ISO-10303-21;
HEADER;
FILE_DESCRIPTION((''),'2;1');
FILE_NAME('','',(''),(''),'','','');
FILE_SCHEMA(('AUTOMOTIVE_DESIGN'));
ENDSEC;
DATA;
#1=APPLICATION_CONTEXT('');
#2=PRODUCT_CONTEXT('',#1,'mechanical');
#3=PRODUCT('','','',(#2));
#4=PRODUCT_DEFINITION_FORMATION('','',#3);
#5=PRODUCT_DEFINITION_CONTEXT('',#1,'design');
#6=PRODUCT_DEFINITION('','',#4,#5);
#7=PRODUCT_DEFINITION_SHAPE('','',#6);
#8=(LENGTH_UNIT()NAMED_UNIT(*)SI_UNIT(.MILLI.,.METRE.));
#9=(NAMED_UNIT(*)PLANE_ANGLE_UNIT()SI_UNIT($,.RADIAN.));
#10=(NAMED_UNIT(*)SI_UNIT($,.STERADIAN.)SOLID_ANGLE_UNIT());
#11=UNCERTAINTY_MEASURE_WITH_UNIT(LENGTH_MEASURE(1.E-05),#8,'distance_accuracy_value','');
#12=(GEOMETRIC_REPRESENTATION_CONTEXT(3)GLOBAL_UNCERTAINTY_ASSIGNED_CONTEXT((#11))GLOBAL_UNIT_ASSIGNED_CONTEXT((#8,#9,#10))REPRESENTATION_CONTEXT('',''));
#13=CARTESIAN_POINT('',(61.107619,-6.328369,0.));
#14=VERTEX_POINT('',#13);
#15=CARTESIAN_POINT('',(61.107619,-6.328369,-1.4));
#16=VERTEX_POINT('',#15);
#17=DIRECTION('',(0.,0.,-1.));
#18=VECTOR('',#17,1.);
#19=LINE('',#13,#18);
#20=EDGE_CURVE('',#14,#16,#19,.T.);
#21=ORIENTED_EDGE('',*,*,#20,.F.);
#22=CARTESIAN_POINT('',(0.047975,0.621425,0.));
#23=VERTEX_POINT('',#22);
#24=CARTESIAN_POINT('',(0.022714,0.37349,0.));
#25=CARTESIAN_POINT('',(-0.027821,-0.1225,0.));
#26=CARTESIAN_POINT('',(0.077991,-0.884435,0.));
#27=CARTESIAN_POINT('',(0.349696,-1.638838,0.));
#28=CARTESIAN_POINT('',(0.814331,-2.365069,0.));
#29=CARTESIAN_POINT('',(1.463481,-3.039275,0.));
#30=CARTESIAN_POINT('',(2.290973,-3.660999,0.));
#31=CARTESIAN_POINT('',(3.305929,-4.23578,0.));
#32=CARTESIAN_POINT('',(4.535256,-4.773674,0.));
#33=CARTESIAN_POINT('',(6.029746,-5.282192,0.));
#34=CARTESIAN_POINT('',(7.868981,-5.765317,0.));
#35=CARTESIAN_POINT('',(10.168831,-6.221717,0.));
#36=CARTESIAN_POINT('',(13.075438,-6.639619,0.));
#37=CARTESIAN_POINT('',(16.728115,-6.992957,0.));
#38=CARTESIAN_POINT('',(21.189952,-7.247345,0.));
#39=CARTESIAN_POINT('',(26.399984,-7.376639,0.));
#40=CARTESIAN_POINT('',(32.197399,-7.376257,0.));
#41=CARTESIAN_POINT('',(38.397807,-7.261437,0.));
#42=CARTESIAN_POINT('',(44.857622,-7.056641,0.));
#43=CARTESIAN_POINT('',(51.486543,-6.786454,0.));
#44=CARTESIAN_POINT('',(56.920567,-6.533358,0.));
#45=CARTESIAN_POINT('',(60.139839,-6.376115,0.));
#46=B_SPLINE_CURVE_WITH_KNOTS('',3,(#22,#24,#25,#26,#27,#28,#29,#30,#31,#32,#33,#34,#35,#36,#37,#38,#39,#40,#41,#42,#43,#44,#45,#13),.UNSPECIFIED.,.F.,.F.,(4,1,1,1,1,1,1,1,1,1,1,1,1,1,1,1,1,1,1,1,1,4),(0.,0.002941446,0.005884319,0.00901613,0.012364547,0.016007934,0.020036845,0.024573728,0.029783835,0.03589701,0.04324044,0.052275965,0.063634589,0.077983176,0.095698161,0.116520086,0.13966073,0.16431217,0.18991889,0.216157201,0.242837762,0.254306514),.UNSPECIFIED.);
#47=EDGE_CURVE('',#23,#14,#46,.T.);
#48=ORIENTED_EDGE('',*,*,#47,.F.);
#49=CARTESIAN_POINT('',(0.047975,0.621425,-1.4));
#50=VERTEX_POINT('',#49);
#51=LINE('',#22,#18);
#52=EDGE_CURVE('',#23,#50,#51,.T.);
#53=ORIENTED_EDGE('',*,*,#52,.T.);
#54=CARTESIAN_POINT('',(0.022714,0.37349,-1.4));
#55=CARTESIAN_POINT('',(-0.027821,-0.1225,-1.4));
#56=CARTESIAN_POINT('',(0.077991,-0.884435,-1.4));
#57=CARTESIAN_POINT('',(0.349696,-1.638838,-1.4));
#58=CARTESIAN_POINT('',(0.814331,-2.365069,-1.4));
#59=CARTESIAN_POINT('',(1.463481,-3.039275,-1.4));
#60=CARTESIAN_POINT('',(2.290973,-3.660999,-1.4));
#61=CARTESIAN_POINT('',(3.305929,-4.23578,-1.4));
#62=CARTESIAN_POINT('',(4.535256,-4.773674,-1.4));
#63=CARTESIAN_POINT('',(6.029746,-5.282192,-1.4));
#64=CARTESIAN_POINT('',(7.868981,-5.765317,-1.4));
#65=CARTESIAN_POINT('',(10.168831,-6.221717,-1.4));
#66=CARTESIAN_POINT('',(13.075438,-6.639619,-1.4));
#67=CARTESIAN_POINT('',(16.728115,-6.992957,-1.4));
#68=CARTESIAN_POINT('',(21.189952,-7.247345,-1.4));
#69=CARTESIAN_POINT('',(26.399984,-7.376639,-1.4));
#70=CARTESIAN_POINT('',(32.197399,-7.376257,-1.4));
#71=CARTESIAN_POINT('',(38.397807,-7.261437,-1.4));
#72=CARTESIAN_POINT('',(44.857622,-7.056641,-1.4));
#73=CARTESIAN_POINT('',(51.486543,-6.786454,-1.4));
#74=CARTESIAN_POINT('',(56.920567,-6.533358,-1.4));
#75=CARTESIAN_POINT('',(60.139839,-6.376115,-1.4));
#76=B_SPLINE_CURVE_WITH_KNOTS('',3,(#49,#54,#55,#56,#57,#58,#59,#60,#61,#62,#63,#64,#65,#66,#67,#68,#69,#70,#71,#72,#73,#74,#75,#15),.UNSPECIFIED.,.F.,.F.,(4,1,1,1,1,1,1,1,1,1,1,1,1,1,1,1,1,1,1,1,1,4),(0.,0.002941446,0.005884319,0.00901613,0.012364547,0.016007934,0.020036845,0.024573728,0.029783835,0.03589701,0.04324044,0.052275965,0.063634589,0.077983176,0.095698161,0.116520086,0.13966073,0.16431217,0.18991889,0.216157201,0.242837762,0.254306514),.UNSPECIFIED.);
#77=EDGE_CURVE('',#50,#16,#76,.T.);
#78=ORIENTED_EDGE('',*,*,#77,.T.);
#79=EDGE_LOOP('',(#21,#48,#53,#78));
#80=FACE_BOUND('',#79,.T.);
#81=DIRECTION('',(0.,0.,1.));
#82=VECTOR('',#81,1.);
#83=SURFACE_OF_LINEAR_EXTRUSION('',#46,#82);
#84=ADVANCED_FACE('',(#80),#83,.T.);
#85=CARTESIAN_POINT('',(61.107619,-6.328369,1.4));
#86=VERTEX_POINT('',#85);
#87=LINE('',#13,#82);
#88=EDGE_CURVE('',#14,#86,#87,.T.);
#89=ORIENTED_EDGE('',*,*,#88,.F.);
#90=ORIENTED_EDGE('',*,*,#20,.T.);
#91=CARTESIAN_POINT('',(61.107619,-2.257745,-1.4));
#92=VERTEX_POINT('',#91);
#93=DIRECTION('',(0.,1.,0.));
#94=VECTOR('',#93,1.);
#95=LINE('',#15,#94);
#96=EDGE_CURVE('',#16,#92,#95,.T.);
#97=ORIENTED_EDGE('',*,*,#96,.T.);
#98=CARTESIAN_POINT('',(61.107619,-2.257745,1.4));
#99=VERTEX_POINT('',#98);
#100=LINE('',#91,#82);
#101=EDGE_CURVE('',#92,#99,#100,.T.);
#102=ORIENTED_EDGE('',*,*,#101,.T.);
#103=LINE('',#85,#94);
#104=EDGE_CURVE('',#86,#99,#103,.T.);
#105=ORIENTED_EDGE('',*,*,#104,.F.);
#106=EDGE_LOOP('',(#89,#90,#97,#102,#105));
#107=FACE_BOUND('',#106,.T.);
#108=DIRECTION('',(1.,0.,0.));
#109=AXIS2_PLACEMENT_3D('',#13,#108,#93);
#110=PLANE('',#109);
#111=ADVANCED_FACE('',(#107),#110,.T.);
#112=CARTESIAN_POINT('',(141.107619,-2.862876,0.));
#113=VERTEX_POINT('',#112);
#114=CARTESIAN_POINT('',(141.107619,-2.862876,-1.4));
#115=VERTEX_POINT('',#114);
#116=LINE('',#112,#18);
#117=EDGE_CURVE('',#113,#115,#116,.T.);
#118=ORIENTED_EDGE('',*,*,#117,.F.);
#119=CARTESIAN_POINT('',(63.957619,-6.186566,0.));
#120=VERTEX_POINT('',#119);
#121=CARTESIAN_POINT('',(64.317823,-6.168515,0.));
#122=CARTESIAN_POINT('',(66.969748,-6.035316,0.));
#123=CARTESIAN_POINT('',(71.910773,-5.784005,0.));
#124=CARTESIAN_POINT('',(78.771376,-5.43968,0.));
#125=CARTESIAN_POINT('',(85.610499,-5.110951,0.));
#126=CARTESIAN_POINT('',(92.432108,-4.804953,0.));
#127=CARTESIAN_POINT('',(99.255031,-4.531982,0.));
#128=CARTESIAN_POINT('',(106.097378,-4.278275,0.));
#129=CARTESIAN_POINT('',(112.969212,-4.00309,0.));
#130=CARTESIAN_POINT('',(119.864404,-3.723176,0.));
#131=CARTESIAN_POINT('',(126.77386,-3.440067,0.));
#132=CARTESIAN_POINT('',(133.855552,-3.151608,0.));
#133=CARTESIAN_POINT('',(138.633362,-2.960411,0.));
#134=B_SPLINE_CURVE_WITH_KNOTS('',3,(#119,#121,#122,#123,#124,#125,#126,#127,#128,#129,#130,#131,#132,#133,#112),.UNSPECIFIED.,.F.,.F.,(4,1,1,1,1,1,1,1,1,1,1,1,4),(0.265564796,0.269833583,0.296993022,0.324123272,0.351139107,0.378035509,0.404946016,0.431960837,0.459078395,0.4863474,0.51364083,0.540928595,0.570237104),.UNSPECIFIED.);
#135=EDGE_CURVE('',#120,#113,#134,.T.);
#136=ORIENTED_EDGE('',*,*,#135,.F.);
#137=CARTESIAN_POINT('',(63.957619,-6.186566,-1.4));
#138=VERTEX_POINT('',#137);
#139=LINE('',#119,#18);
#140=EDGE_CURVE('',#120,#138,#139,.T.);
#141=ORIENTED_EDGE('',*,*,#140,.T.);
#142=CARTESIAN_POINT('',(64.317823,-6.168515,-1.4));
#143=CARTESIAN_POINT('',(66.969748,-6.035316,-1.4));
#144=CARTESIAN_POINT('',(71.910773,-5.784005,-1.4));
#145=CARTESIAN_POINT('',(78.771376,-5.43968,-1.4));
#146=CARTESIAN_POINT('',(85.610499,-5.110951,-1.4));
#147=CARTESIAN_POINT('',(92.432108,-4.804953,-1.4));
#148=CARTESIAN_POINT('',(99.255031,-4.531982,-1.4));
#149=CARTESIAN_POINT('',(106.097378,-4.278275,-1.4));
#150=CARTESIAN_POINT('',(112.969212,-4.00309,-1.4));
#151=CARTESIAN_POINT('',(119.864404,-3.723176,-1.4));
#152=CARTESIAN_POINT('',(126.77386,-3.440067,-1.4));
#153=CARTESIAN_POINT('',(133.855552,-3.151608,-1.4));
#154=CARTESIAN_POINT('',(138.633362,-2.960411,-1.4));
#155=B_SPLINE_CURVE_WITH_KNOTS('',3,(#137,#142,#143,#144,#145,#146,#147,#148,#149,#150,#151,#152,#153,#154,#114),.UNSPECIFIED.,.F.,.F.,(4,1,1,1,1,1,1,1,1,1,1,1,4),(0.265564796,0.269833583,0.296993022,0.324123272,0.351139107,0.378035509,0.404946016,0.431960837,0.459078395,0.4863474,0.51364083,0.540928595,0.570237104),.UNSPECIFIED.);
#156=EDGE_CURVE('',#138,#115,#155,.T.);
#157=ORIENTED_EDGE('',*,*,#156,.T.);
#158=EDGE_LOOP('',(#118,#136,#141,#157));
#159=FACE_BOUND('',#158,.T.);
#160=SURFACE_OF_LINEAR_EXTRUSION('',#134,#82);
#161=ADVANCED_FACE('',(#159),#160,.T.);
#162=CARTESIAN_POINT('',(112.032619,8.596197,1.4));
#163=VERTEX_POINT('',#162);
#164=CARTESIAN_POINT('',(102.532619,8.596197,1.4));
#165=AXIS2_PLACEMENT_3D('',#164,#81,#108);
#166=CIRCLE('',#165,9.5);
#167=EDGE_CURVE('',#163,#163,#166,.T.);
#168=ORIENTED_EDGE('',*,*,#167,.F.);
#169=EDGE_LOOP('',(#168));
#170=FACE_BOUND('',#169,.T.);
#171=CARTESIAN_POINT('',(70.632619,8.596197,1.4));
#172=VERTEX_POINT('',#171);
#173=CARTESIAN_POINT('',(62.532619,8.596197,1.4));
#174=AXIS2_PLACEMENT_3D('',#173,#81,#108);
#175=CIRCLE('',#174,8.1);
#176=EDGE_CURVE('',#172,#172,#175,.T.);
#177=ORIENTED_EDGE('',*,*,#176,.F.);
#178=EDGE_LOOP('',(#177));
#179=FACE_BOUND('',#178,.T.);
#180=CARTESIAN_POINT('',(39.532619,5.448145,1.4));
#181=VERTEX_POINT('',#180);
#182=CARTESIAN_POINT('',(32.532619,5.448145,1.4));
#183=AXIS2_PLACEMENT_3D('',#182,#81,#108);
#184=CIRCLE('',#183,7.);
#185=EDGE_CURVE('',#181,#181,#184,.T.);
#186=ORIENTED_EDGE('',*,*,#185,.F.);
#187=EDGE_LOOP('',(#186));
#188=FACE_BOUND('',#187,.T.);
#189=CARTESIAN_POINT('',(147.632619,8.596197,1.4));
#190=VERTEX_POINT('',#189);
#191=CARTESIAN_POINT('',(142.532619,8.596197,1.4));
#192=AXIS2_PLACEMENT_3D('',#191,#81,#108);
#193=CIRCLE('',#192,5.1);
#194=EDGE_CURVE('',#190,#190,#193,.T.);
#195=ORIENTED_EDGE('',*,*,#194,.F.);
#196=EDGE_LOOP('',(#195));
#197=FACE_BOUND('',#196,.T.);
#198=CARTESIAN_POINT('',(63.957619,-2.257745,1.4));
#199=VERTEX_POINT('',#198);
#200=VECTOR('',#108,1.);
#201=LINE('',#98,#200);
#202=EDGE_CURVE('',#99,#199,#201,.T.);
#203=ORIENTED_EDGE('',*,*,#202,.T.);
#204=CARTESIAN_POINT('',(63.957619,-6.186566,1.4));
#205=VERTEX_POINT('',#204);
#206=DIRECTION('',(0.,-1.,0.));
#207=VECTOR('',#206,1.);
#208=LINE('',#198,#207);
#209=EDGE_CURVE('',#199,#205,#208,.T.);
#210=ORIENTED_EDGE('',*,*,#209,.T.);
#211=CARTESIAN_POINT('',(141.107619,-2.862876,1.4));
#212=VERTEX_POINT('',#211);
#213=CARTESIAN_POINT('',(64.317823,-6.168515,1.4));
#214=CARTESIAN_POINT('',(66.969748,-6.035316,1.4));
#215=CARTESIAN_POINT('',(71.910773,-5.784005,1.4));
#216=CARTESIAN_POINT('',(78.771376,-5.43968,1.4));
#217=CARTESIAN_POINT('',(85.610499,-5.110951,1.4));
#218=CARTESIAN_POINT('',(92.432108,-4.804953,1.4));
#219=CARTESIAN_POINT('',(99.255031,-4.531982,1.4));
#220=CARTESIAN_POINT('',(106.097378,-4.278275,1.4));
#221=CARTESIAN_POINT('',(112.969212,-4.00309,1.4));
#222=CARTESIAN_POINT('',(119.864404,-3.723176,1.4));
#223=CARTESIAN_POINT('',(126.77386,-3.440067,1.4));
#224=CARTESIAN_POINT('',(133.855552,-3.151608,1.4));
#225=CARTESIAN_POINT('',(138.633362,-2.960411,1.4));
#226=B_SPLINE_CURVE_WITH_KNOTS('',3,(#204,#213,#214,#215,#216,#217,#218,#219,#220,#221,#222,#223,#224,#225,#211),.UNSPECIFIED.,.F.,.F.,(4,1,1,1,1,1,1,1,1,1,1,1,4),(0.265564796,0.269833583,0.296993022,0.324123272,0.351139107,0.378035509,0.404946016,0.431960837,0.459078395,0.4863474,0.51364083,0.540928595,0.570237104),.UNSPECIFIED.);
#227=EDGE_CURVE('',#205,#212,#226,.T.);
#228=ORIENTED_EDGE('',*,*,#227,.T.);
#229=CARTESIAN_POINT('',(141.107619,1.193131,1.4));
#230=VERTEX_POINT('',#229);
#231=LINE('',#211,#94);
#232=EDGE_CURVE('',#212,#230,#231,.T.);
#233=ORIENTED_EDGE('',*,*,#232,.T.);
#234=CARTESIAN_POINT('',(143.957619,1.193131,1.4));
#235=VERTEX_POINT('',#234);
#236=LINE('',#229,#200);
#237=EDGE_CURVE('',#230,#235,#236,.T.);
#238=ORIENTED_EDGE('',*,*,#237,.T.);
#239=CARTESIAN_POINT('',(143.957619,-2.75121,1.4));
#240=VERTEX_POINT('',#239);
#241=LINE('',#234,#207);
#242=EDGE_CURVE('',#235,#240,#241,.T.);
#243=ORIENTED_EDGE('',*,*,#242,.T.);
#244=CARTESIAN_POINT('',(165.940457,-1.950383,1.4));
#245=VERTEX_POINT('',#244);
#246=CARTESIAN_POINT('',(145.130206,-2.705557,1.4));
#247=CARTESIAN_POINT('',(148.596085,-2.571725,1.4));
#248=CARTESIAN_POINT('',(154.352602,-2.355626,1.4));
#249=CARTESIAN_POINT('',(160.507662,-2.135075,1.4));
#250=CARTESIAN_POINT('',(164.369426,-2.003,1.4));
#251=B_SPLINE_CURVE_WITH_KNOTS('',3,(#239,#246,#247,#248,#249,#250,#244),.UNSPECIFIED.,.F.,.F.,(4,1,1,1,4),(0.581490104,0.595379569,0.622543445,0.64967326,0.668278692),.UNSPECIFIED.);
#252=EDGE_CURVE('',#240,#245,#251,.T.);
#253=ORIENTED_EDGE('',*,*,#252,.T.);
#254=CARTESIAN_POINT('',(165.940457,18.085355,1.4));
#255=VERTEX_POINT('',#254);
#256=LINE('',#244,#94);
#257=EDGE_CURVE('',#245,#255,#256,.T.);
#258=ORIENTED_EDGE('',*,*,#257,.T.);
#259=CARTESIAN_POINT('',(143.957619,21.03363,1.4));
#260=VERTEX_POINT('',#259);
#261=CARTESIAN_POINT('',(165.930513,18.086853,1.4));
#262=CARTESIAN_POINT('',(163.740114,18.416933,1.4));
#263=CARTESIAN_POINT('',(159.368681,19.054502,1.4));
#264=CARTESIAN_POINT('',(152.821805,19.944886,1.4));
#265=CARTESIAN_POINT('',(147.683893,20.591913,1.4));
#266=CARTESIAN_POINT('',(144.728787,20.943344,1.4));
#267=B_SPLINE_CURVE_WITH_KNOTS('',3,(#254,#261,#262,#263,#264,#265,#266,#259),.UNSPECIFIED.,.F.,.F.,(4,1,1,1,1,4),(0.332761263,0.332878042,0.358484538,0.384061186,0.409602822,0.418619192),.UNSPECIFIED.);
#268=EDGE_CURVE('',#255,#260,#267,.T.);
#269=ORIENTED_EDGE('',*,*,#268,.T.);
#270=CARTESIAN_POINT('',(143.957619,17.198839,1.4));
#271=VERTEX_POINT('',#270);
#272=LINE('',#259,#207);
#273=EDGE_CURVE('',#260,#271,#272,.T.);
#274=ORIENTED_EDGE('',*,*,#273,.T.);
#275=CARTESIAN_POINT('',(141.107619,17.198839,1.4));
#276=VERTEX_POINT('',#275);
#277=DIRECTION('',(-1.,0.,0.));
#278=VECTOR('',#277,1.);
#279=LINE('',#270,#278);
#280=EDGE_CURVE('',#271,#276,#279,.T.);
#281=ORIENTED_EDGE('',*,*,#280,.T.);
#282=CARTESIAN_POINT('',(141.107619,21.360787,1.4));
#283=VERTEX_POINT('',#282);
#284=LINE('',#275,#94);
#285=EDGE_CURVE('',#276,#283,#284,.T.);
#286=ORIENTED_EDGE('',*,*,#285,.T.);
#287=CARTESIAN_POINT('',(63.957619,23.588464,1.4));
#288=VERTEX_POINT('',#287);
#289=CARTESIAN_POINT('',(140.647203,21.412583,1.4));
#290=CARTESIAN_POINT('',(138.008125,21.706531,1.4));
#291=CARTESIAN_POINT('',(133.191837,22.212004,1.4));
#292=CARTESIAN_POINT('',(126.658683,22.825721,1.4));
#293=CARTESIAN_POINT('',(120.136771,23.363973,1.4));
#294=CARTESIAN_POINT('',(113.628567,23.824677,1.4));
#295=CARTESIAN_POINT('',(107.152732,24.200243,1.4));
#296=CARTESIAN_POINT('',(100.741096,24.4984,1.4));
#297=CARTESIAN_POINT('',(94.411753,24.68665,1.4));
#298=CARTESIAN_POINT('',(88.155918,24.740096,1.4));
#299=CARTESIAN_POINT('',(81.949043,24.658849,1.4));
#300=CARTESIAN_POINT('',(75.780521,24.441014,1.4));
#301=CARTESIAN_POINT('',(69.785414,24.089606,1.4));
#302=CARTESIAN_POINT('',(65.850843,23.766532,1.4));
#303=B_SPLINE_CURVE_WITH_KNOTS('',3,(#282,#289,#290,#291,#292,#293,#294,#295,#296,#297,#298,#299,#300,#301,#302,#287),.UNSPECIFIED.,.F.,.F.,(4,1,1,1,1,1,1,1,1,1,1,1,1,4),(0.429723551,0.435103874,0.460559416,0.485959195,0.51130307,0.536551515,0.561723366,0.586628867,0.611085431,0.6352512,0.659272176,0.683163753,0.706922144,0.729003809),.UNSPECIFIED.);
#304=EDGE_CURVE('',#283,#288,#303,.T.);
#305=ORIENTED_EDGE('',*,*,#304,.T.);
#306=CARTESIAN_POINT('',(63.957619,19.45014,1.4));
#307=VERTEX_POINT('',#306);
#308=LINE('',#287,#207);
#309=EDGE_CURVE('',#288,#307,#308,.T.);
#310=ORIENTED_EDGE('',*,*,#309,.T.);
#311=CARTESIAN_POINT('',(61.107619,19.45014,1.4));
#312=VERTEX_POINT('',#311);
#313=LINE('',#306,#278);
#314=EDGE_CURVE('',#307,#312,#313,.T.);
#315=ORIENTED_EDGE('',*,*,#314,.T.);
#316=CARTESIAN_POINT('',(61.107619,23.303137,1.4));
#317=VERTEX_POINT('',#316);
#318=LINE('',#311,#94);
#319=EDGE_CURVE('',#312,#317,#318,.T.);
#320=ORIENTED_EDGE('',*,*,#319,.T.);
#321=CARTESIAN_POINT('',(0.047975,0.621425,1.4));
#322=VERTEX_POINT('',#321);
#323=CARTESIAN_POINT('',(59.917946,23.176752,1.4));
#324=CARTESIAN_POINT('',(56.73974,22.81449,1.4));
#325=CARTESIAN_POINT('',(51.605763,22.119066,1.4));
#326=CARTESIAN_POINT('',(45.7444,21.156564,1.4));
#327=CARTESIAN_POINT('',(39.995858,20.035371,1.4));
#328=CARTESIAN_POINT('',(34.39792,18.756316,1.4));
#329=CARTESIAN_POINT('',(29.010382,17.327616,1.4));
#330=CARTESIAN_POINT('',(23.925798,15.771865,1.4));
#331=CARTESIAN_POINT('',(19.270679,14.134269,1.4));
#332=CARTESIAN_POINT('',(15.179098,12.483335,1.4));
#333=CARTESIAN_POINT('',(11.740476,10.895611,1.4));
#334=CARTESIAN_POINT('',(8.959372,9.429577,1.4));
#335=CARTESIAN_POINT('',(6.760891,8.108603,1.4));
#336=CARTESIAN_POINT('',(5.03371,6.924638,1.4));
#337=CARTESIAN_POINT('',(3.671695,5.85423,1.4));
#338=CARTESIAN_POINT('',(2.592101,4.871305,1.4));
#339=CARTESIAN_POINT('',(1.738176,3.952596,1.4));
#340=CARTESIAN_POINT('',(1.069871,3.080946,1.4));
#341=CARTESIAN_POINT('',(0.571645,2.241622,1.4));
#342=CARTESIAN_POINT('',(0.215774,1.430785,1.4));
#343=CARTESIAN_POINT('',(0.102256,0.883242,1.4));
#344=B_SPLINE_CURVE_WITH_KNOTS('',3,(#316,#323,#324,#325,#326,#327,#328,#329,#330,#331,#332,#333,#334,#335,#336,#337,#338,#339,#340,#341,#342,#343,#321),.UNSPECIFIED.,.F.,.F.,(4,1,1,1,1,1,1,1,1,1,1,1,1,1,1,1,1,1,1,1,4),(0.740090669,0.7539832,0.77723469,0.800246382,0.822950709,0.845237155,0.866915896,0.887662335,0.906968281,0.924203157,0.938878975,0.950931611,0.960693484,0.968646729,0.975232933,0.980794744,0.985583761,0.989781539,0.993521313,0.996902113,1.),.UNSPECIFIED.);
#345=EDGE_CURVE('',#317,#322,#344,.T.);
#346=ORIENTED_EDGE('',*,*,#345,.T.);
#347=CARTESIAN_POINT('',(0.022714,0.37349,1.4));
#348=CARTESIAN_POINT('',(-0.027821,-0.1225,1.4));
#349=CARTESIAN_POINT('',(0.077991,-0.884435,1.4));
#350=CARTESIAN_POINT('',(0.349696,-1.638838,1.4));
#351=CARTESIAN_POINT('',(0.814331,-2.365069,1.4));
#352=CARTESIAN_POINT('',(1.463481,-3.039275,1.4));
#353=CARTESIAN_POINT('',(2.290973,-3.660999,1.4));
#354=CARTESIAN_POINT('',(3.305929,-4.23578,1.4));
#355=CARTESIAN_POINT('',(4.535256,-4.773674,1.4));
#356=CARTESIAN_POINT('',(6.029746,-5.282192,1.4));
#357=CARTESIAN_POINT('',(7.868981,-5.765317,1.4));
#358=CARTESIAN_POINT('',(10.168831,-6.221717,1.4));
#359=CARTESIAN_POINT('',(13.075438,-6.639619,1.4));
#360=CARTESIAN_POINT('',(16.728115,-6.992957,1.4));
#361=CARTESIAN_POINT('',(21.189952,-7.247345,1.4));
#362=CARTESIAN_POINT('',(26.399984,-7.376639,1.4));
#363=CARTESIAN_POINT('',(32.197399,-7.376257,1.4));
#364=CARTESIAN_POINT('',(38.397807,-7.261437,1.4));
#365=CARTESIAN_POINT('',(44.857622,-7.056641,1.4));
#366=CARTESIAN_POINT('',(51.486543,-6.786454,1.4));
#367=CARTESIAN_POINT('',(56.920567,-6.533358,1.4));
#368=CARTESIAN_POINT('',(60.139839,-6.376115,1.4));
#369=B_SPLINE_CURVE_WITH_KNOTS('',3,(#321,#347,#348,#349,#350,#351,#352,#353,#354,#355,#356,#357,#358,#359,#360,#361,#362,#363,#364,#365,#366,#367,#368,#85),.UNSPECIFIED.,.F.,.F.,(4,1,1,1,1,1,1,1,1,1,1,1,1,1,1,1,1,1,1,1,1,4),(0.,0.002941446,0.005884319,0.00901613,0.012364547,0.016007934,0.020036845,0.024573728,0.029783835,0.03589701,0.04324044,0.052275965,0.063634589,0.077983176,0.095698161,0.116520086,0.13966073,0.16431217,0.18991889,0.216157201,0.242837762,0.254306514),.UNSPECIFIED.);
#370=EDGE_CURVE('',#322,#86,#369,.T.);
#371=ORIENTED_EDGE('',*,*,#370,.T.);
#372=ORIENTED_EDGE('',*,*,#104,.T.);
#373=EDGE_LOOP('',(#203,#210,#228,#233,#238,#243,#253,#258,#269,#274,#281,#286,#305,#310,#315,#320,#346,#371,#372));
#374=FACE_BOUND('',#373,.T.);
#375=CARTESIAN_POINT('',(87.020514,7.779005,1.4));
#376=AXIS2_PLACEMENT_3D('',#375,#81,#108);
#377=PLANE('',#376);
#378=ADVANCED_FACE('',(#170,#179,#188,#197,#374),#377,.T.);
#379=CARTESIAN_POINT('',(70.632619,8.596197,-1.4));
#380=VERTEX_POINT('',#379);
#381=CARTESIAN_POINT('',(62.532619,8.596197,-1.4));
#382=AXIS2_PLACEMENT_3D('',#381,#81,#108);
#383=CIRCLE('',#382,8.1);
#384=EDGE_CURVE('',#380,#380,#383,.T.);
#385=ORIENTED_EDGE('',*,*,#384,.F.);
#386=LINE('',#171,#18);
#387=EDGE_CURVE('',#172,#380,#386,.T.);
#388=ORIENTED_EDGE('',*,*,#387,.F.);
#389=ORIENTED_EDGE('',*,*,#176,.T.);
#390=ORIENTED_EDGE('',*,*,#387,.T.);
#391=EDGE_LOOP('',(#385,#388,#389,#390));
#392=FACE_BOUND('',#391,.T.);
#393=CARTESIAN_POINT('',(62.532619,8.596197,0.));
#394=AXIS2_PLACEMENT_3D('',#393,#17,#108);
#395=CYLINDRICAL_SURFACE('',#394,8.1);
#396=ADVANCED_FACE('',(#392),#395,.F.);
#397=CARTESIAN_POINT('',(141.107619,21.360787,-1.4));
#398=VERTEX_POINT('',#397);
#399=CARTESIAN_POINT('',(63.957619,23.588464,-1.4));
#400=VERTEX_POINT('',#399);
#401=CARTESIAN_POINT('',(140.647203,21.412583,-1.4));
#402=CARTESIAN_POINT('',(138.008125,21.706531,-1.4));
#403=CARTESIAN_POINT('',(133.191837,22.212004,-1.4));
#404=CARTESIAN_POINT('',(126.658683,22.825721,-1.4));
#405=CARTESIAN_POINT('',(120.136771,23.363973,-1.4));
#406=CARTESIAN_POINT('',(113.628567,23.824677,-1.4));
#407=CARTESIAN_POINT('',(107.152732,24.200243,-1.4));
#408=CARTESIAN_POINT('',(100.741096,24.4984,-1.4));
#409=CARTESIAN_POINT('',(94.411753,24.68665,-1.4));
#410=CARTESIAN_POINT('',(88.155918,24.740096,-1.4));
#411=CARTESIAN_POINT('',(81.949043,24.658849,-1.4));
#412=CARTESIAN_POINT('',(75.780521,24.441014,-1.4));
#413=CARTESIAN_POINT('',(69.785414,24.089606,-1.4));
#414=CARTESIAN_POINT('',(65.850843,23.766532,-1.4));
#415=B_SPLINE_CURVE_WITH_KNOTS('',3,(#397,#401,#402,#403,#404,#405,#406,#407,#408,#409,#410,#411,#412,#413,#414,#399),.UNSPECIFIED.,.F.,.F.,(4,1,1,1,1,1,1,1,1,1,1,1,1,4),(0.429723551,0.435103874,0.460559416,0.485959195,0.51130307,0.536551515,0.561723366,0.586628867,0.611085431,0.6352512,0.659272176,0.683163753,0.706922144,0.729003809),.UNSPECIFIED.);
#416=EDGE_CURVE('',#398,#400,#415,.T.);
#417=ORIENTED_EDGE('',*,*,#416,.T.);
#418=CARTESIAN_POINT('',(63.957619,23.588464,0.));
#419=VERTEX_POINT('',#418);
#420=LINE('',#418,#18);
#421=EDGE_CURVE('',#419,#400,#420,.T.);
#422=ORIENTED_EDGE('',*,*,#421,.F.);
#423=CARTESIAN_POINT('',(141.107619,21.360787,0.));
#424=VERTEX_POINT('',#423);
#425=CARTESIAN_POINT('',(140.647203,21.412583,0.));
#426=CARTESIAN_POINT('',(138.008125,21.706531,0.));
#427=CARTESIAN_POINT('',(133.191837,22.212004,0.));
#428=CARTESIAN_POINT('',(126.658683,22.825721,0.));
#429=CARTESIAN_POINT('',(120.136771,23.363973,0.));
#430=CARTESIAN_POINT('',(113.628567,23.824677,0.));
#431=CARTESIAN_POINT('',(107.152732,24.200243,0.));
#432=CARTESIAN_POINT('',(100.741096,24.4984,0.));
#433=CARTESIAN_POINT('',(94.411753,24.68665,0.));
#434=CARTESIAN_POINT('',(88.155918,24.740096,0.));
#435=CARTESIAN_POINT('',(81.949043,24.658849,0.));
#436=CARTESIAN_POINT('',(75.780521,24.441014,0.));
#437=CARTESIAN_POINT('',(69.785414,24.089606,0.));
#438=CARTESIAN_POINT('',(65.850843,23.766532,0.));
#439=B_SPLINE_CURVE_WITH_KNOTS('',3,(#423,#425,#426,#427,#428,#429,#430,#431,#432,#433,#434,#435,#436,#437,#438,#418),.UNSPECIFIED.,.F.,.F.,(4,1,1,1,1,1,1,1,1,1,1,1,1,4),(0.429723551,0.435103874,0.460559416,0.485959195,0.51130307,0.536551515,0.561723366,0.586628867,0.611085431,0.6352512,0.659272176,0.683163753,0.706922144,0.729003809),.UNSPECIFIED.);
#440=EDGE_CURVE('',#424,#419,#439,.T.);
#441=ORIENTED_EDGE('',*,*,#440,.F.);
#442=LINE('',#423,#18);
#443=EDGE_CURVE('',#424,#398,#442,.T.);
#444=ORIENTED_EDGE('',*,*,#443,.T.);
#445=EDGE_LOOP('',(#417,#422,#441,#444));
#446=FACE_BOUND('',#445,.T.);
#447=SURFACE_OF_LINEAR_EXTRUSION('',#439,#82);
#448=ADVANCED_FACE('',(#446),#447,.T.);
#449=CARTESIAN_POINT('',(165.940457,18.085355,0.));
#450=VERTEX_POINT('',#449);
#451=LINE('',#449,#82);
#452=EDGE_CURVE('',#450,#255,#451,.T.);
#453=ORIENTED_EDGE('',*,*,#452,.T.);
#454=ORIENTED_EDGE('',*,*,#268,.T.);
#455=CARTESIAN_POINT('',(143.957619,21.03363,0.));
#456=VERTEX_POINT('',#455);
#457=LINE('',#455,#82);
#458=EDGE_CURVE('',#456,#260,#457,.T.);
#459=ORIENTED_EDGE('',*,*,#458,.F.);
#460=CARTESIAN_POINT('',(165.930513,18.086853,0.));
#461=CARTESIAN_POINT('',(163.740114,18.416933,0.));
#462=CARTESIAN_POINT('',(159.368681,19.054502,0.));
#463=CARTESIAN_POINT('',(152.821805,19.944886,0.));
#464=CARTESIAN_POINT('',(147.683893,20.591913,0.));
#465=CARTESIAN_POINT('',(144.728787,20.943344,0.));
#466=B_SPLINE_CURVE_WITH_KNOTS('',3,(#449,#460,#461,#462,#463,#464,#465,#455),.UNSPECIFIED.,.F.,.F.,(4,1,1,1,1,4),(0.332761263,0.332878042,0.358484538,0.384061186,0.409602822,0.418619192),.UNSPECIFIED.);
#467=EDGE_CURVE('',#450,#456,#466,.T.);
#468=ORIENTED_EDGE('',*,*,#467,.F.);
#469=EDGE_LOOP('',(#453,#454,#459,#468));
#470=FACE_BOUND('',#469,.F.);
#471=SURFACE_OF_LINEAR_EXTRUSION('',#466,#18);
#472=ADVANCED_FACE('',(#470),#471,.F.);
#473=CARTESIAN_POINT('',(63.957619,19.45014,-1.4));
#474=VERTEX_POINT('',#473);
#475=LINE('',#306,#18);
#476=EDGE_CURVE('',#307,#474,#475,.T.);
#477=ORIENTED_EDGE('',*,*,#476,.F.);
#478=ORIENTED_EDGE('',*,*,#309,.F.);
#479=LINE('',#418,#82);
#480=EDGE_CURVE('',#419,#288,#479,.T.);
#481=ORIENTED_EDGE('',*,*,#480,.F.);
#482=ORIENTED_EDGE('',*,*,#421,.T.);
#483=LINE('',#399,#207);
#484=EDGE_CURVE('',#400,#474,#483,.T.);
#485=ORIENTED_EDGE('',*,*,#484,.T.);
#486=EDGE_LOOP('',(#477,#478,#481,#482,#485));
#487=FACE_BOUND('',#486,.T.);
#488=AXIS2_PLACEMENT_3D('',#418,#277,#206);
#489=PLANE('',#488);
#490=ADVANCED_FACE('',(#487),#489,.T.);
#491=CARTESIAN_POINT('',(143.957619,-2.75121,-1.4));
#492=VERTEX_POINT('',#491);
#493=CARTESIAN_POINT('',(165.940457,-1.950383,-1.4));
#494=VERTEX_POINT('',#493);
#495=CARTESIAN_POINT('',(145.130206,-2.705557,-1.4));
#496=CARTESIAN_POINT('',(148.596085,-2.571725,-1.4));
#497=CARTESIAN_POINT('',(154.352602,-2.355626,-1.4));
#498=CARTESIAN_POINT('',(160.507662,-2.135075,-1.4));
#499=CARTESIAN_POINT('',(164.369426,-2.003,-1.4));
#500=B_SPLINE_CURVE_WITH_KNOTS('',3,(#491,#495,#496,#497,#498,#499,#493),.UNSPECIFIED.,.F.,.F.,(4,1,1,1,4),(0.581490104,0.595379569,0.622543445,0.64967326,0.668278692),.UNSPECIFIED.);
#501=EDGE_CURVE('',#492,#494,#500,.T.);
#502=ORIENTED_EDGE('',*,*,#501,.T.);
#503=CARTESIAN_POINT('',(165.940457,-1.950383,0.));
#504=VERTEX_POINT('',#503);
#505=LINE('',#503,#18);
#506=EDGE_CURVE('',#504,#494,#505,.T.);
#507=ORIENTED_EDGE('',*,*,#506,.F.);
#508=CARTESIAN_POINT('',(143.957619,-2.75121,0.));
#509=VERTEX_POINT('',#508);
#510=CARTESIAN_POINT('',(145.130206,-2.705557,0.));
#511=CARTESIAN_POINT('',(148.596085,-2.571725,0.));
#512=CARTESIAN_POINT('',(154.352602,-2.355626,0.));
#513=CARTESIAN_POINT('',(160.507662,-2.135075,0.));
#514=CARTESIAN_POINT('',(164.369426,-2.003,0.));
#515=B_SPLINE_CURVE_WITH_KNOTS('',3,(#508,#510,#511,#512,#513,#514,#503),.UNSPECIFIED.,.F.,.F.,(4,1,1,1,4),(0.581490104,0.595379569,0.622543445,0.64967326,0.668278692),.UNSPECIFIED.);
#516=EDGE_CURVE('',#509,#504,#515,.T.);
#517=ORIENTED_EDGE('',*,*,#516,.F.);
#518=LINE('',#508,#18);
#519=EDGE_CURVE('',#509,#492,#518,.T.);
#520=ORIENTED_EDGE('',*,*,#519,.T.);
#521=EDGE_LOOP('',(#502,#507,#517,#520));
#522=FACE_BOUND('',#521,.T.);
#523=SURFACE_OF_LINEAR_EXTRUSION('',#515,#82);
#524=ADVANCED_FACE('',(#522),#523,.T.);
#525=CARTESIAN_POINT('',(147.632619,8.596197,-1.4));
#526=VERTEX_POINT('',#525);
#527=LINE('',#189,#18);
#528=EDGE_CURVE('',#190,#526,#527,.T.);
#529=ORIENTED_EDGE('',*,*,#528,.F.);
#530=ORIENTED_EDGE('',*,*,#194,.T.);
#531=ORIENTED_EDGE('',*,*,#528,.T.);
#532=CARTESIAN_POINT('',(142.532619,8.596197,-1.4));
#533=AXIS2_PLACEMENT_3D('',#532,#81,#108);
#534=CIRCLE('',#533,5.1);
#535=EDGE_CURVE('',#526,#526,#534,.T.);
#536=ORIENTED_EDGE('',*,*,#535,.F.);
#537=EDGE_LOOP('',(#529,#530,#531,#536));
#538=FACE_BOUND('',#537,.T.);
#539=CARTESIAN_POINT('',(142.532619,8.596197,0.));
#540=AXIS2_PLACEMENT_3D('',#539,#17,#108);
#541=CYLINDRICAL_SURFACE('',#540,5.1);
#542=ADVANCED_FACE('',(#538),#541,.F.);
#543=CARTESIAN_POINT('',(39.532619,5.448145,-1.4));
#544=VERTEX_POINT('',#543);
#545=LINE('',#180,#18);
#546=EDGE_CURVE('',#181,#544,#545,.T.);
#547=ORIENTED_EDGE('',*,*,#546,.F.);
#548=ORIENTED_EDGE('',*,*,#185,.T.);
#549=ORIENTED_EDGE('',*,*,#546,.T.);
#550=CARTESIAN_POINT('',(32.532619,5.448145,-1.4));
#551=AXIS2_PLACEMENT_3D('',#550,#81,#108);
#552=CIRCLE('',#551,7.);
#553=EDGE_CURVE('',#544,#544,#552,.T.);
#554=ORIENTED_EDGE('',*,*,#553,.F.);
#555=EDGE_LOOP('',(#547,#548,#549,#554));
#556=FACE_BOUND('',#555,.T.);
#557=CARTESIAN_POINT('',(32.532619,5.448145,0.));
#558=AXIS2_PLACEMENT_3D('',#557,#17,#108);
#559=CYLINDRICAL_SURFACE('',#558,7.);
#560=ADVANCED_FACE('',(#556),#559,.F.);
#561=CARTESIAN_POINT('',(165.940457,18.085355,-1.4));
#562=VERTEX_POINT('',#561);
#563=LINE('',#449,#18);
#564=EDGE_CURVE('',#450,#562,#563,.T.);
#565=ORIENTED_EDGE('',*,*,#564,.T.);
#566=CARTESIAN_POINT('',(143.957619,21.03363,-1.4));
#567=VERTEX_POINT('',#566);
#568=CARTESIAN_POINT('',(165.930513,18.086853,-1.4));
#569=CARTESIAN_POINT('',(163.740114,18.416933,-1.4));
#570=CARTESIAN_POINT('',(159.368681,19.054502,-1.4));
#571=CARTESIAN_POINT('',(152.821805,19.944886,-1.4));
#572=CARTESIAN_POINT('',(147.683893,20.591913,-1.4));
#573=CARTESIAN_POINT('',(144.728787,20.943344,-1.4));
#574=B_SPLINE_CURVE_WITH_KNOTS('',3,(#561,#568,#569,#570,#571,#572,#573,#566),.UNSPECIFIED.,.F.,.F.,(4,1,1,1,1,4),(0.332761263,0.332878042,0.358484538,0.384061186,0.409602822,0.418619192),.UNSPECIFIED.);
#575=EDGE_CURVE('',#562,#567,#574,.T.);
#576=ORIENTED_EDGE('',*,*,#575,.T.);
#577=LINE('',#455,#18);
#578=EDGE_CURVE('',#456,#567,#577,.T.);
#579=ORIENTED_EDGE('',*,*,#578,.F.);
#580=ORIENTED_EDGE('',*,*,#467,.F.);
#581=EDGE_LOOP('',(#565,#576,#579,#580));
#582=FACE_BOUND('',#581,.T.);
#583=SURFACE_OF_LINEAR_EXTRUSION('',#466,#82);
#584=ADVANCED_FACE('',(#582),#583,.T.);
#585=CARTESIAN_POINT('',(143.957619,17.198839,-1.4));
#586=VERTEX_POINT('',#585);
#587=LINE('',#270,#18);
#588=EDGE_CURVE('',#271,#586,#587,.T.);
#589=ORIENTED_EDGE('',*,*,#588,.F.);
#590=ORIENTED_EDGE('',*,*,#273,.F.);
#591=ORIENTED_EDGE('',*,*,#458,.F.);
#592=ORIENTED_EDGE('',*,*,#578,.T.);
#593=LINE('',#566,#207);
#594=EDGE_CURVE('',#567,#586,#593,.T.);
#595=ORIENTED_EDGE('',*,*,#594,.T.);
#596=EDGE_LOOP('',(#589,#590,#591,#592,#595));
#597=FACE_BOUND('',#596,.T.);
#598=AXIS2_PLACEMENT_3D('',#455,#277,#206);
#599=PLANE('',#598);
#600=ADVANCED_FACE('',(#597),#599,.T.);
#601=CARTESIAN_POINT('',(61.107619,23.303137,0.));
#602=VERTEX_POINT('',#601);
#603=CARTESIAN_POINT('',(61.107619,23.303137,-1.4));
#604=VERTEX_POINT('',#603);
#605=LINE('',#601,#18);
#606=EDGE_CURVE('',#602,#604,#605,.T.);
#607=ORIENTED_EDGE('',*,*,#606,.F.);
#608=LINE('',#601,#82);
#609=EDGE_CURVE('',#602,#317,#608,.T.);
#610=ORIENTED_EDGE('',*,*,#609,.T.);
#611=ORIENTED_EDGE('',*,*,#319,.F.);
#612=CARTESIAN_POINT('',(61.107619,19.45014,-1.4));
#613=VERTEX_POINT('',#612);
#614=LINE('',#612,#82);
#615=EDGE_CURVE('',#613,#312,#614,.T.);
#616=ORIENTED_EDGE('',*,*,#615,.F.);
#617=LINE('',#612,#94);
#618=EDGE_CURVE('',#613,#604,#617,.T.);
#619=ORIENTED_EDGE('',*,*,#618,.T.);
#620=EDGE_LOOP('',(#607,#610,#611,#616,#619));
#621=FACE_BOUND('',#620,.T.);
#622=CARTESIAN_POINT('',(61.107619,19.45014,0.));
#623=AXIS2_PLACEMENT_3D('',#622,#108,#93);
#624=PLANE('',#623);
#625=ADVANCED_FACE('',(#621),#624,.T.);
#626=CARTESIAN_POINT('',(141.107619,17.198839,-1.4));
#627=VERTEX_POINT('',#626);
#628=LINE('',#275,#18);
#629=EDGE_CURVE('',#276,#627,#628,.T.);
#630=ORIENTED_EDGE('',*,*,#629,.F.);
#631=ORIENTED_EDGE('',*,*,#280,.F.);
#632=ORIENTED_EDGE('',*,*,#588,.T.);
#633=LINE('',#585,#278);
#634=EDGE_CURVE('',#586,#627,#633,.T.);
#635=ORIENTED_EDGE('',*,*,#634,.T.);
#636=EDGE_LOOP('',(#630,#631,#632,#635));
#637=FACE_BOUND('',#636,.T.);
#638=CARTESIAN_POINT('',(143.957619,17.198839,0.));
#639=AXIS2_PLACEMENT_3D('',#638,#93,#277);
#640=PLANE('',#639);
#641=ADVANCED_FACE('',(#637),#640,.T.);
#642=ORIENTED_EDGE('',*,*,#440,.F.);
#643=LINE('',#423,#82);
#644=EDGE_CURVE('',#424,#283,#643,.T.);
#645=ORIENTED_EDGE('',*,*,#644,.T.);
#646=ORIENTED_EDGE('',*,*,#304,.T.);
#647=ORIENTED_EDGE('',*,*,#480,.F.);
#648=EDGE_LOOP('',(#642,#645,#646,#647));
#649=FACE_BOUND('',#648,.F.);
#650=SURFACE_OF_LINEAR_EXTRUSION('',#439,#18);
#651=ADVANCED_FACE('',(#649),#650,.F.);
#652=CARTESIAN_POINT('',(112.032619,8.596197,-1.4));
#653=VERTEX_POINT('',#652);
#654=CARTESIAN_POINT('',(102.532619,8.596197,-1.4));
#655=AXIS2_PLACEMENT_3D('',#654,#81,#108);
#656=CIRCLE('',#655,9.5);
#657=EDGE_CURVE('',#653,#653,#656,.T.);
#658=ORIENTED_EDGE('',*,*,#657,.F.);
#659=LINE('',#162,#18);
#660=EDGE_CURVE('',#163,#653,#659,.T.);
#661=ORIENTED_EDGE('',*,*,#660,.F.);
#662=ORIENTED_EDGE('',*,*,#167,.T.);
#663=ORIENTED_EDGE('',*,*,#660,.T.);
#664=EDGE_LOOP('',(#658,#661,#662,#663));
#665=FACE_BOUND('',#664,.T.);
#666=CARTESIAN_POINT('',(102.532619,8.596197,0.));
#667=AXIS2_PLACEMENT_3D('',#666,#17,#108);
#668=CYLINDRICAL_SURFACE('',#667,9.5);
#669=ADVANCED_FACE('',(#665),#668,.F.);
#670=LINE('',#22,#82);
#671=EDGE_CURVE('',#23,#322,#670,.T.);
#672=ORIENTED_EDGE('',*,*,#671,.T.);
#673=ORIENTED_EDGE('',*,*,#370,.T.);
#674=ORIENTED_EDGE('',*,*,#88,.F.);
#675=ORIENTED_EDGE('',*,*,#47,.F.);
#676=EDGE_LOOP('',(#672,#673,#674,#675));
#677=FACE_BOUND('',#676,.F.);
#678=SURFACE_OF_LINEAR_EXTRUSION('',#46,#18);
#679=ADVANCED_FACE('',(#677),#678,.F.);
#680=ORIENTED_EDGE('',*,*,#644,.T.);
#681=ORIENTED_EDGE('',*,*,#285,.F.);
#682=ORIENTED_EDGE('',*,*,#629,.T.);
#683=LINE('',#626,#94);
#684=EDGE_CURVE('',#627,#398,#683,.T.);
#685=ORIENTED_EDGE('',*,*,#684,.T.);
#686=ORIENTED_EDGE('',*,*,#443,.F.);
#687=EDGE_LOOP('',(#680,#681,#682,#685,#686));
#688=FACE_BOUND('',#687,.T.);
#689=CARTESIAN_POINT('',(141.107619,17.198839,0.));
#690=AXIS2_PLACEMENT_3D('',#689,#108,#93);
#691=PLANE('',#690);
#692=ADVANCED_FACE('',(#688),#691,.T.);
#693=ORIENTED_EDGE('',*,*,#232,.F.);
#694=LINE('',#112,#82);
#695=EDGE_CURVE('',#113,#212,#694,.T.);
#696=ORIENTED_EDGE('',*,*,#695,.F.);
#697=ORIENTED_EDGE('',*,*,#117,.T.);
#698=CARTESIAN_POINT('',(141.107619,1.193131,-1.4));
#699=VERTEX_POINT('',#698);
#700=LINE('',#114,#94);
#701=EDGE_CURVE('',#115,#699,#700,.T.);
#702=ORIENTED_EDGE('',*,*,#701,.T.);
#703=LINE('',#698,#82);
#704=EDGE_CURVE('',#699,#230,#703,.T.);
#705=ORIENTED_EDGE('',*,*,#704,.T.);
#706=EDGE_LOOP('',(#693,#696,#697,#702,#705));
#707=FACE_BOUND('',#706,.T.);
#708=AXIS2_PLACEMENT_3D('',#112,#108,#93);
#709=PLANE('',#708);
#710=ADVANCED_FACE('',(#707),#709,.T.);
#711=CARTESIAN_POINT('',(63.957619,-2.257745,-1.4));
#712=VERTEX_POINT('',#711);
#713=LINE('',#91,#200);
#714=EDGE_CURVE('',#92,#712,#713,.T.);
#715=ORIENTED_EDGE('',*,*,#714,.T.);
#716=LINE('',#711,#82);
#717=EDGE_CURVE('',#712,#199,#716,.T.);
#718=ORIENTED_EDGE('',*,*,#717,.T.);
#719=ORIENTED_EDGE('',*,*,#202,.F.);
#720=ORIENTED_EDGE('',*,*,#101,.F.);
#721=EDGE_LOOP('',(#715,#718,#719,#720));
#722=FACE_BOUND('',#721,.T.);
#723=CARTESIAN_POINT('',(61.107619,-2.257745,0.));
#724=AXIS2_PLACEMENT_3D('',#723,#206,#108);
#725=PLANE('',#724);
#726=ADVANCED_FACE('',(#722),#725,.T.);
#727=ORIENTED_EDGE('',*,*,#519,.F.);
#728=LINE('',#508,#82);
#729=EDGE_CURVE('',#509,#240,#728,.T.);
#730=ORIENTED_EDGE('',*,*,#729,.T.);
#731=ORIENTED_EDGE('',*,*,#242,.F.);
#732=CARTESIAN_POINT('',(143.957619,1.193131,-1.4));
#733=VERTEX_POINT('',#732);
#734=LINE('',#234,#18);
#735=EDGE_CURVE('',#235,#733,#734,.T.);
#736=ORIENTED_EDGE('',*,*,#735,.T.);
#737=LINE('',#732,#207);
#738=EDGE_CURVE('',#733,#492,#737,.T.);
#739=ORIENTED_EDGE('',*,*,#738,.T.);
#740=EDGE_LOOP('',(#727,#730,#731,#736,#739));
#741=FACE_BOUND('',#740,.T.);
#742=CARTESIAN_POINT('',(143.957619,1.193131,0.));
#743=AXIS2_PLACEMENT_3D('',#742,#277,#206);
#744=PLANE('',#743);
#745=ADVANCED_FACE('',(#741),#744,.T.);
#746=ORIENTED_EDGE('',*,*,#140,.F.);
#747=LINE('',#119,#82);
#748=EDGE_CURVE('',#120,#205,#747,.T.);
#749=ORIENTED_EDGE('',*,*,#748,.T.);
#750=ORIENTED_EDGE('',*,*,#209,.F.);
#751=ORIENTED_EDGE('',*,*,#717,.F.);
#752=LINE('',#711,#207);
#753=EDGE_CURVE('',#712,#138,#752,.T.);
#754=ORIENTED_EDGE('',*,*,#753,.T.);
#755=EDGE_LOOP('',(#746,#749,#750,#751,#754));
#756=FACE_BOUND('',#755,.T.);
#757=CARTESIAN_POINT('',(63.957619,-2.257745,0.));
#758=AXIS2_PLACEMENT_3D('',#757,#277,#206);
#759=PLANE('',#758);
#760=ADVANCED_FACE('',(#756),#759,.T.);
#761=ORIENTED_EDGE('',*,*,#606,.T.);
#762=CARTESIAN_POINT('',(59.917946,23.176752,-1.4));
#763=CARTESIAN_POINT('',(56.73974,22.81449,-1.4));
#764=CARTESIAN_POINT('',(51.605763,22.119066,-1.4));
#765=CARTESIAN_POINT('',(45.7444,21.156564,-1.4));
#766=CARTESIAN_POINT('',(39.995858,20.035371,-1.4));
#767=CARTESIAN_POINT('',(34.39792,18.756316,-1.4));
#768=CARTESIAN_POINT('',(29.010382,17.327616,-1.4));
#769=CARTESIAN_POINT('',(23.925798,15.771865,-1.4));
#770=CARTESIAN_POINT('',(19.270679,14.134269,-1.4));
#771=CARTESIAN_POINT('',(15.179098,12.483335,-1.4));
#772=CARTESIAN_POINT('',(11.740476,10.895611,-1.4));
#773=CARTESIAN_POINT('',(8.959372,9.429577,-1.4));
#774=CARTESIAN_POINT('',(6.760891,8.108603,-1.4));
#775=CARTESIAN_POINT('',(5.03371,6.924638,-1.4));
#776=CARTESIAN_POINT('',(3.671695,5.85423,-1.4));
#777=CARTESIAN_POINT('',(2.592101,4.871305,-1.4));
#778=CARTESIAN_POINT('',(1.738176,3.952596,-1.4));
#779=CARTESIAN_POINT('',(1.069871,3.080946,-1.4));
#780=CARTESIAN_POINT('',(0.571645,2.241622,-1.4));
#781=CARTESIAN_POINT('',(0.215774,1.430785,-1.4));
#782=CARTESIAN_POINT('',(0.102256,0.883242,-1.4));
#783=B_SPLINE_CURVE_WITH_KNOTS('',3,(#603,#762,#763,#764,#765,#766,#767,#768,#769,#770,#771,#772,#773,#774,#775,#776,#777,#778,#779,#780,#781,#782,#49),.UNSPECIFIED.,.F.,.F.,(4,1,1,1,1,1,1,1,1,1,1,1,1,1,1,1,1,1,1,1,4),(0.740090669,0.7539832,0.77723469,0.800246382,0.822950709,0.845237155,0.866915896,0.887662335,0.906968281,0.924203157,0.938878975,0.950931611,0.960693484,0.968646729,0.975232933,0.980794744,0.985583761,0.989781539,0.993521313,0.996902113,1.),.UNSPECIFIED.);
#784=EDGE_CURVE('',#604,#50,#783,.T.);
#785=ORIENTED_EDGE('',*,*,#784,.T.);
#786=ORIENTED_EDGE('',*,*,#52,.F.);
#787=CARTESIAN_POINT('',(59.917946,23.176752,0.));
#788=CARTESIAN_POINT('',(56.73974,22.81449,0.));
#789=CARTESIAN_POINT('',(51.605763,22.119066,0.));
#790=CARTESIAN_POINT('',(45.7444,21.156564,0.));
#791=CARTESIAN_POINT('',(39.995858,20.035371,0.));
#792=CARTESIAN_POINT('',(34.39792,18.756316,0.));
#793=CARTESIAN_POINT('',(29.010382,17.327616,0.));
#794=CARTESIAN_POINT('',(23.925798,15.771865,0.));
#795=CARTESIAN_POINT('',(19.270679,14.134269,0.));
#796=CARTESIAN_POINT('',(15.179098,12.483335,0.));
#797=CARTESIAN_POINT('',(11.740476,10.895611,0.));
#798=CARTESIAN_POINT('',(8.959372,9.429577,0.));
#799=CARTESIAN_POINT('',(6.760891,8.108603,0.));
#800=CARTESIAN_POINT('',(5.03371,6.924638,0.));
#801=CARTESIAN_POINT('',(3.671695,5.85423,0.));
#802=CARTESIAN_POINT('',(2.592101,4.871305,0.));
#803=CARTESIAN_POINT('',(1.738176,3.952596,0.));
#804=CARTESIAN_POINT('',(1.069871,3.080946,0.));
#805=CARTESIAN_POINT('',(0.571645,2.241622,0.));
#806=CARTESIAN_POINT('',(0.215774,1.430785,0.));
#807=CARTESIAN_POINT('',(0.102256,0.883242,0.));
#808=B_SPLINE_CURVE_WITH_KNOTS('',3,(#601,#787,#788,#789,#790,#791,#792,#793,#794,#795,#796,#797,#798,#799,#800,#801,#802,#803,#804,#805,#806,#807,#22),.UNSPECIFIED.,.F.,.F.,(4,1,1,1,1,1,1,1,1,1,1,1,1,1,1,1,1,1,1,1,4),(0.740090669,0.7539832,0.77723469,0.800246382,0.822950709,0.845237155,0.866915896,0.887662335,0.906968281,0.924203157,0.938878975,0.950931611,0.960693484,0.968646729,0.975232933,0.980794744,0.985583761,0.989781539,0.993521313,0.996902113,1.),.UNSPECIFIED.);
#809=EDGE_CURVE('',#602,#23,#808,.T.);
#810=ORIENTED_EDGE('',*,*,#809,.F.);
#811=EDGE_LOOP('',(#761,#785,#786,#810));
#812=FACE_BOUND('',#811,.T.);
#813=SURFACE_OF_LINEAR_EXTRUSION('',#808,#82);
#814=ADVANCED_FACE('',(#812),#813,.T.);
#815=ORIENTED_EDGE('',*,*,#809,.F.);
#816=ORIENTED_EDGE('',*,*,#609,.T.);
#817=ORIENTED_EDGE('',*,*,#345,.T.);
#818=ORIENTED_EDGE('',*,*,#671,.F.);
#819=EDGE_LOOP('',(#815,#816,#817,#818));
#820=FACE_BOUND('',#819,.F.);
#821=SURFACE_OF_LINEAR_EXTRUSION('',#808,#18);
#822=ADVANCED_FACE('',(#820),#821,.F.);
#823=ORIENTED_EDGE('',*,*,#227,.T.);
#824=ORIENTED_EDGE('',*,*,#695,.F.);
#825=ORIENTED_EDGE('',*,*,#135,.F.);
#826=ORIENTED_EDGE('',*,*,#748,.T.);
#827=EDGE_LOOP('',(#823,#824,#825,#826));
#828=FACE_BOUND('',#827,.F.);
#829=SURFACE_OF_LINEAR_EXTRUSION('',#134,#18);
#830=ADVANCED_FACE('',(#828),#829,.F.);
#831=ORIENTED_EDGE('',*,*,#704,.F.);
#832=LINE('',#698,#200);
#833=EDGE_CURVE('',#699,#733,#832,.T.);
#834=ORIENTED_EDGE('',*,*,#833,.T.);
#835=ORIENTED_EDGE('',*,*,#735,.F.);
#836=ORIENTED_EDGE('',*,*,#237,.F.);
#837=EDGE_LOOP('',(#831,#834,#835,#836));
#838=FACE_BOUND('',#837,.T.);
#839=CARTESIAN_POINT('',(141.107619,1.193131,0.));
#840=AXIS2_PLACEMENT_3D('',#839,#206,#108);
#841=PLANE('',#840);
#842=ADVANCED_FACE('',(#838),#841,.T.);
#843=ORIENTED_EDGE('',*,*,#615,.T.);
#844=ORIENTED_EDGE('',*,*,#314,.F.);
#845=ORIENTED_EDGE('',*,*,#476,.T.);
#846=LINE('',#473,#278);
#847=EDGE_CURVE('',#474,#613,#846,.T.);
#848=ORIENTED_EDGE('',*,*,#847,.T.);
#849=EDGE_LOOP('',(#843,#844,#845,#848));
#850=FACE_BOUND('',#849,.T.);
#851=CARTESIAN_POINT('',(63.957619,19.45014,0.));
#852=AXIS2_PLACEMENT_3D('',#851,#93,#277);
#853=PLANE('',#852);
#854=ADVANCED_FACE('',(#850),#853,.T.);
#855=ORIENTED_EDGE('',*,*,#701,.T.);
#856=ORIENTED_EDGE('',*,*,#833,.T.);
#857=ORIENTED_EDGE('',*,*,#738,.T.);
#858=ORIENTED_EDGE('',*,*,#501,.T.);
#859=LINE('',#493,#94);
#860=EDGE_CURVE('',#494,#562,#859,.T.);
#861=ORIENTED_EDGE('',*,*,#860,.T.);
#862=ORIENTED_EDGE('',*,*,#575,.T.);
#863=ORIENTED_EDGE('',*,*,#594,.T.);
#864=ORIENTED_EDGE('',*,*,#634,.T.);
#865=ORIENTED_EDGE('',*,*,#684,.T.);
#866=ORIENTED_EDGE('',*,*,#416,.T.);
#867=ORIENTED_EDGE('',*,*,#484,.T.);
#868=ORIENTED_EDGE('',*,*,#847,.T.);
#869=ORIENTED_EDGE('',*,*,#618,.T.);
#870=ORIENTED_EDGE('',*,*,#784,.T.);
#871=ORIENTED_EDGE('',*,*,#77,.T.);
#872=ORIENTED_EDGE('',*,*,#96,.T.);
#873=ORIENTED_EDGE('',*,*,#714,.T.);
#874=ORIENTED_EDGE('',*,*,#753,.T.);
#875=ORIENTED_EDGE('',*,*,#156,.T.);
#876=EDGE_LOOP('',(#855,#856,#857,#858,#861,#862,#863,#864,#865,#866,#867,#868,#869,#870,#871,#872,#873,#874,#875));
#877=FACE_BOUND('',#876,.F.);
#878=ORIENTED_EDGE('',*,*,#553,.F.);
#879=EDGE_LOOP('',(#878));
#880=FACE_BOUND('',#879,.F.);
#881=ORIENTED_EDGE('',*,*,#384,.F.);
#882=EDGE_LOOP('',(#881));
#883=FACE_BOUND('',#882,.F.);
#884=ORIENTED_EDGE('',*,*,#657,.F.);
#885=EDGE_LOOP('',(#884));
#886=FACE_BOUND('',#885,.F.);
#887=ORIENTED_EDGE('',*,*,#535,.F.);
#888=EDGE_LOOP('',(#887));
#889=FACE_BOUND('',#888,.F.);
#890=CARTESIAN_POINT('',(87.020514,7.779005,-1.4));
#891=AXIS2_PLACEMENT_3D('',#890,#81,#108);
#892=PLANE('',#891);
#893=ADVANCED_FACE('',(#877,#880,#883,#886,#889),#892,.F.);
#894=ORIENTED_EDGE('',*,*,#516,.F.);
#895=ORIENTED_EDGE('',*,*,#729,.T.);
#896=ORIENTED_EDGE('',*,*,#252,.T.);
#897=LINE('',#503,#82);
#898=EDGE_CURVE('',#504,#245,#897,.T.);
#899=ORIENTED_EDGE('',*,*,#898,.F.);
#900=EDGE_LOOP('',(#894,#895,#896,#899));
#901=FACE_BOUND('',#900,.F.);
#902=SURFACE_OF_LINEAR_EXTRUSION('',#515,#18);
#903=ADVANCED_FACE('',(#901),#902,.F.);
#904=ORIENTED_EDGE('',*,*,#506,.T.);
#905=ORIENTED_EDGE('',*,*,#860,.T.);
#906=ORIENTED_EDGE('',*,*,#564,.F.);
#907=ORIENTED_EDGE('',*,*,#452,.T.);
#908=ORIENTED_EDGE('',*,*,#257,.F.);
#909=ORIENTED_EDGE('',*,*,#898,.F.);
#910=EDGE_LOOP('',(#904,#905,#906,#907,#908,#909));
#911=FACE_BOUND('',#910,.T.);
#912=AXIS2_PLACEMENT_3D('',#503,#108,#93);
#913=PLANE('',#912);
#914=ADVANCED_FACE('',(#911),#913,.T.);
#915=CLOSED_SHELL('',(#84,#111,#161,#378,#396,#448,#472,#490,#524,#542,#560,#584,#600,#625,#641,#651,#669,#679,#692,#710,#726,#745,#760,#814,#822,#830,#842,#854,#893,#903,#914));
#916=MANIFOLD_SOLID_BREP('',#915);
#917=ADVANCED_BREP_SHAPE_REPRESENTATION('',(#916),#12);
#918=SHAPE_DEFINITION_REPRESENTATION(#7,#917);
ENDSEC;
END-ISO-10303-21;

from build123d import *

# Parameters (mm, degrees)
SKETCH_1_R      = 7
SKETCH_1_R_2    = 8.1
SKETCH_1_R_3    = 9.5
SKETCH_1_R_4    = 5.1
EXTRUDE_1_DEPTH = 1.4


with BuildPart() as part:
    # Эскиз1 → Бобышка-Вытянуть1 (new, symmetric)
    with BuildSketch(Plane.XY):
        with BuildLine():
            Line((63.957619318, 19.450139662), (61.107619318, 19.450139662))
            Line((61.107619318, 19.450139662), (61.107619318, 23.303137173))
            add(Edge.make_bspline(
                [(61.107619318, 23.303137173), (59.917945614, 23.176751945), (56.739740439, 22.81448979), (51.605762688, 22.119065522), (45.744400311, 21.156564432), (39.995857594, 20.03537139), (34.397919842, 18.756316235), (29.010382103, 17.327615608), (23.925798408, 15.771864922), (19.27067884, 14.134269435), (15.179098391, 12.483335438), (11.74047579, 10.895610996), (8.959371869, 9.429577366), (6.76089118, 8.1086032), (5.033709748, 6.924638056), (3.671694933, 5.854229665), (2.592101123, 4.871305369), (1.738175668, 3.952595744), (1.06987083, 3.080946374), (0.57164541, 2.241622103), (0.215773899, 1.430785398), (0.102255581, 0.883241695), (0.047975, 0.621425001)],
                knots=[0.740090669, 0.740090669, 0.740090669, 0.740090669, 0.7539832, 0.77723469, 0.800246382, 0.822950709, 0.845237155, 0.866915896, 0.887662335, 0.906968281, 0.924203157, 0.938878975, 0.950931611, 0.960693484, 0.968646729, 0.975232933, 0.980794744, 0.985583761, 0.989781539, 0.993521313, 0.996902113, 1, 1, 1, 1], degree=3))
            add(Edge.make_bspline(
                [(0.047975, 0.621425001), (0.02271382, 0.373490086), (-0.027820789, -0.122499974), (0.077991212, -0.884434589), (0.34969565, -1.63883807), (0.814331135, -2.365068923), (1.46348078, -3.039275244), (2.290973016, -3.660999469), (3.30592875, -4.23577962), (4.535255619, -4.773674143), (6.029745688, -5.282192164), (7.868981215, -5.765316676), (10.168831391, -6.221716592), (13.075438188, -6.63961873), (16.728115362, -6.992956737), (21.189952096, -7.247345144), (26.399984415, -7.376638848), (32.197398564, -7.376256913), (38.397806759, -7.261436579), (44.857621768, -7.056641358), (51.486543096, -6.786453532), (56.920566709, -6.533358441), (60.139839208, -6.376114839), (61.107619318, -6.32836923)],
                knots=[0, 0, 0, 0, 0.002941446, 0.005884319, 0.00901613, 0.012364547, 0.016007934, 0.020036845, 0.024573728, 0.029783835, 0.03589701, 0.04324044, 0.052275965, 0.063634589, 0.077983176, 0.095698161, 0.116520086, 0.13966073, 0.16431217, 0.18991889, 0.216157201, 0.242837762, 0.254306514, 0.254306514, 0.254306514, 0.254306514], degree=3))
            Line((61.107619318, -6.32836923), (61.107619318, -2.257745247))
            Line((61.107619318, -2.257745247), (63.957619318, -2.257745247))
            Line((63.957619318, -2.257745247), (63.957619318, -6.186566126))
            add(Edge.make_bspline(
                [(63.957619318, -6.186566126), (64.317823095, -6.168514758), (66.969747676, -6.035316313), (71.910772709, -5.784005174), (78.771375576, -5.439680449), (85.610498609, -5.110951246), (92.432107589, -4.804953317), (99.25503119, -4.531981644), (106.097378404, -4.278274658), (112.96921168, -4.00308991), (119.864404254, -3.723176166), (126.773860473, -3.440067276), (133.855552455, -3.151608468), (138.633361552, -2.960411351), (141.107619318, -2.86287629)],
                knots=[0.265564796, 0.265564796, 0.265564796, 0.265564796, 0.269833583, 0.296993022, 0.324123272, 0.351139107, 0.378035509, 0.404946016, 0.431960837, 0.459078395, 0.4863474, 0.51364083, 0.540928595, 0.570237104, 0.570237104, 0.570237104, 0.570237104], degree=3))
            Line((141.107619318, -2.86287629), (141.107619318, 1.193130543))
            Line((141.107619318, 1.193130543), (143.957619318, 1.193130543))
            Line((143.957619318, 1.193130543), (143.957619318, -2.751209627))
            add(Edge.make_bspline(
                [(143.957619318, -2.751209627), (145.13020609, -2.705557458), (148.596084852, -2.571725453), (154.352602411, -2.355626415), (160.507662095, -2.135075484), (164.369425992, -2.00299999), (165.940456932, -1.950382964)],
                knots=[0.581490104, 0.581490104, 0.581490104, 0.581490104, 0.595379569, 0.622543445, 0.64967326, 0.668278692, 0.668278692, 0.668278692, 0.668278692], degree=3))
            Line((165.940456932, -1.950382964), (165.940456932, 7.49391084))
            Line((165.940456932, 7.49391084), (165.940456932, 18.08535451))
            add(Edge.make_bspline(
                [(165.940456932, 18.08535451), (165.930512987, 18.08685322), (163.740114226, 18.416932974), (159.368680729, 19.054501815), (152.821805128, 19.944885603), (147.683892721, 20.591912914), (144.728786809, 20.943344409), (143.957619318, 21.033629847)],
                knots=[0.332761263, 0.332761263, 0.332761263, 0.332761263, 0.332878042, 0.358484538, 0.384061186, 0.409602822, 0.418619192, 0.418619192, 0.418619192, 0.418619192], degree=3))
            Line((143.957619318, 21.033629847), (143.957619318, 17.19883932))
            Line((143.957619318, 17.19883932), (141.107619318, 17.19883932))
            Line((141.107619318, 17.19883932), (141.107619318, 21.360787161))
            add(Edge.make_bspline(
                [(141.107619318, 21.360787161), (140.647203073, 21.412583326), (138.008124909, 21.706530989), (133.19183673, 22.212004255), (126.658683026, 22.825721434), (120.136770918, 23.363973271), (113.62856714, 23.824677329), (107.152732037, 24.200242598), (100.741095693, 24.498399513), (94.411752715, 24.686649771), (88.155917993, 24.740095652), (81.949043055, 24.658849145), (75.780520591, 24.441013809), (69.785413798, 24.089605746), (65.850842722, 23.766532071), (63.957619318, 23.588464287)],
                knots=[0.429723551, 0.429723551, 0.429723551, 0.429723551, 0.435103874, 0.460559416, 0.485959195, 0.51130307, 0.536551515, 0.561723366, 0.586628867, 0.611085431, 0.6352512, 0.659272176, 0.683163753, 0.706922144, 0.729003809, 0.729003809, 0.729003809, 0.729003809], degree=3))
            Line((63.957619318, 23.588464287), (63.957619318, 19.450139662))
        make_face()
        with Locations((32.532619318, 5.448144701)):
            Circle(SKETCH_1_R, mode=Mode.SUBTRACT)
        with Locations((62.532619318, 8.596197208)):
            Circle(SKETCH_1_R_2, mode=Mode.SUBTRACT)
        with Locations((102.532619318, 8.596197208)):
            Circle(SKETCH_1_R_3, mode=Mode.SUBTRACT)
        with Locations((142.532619318, 8.596197208)):
            Circle(SKETCH_1_R_4, mode=Mode.SUBTRACT)
    extrude(amount=EXTRUDE_1_DEPTH, both=True)


solid = part.part
